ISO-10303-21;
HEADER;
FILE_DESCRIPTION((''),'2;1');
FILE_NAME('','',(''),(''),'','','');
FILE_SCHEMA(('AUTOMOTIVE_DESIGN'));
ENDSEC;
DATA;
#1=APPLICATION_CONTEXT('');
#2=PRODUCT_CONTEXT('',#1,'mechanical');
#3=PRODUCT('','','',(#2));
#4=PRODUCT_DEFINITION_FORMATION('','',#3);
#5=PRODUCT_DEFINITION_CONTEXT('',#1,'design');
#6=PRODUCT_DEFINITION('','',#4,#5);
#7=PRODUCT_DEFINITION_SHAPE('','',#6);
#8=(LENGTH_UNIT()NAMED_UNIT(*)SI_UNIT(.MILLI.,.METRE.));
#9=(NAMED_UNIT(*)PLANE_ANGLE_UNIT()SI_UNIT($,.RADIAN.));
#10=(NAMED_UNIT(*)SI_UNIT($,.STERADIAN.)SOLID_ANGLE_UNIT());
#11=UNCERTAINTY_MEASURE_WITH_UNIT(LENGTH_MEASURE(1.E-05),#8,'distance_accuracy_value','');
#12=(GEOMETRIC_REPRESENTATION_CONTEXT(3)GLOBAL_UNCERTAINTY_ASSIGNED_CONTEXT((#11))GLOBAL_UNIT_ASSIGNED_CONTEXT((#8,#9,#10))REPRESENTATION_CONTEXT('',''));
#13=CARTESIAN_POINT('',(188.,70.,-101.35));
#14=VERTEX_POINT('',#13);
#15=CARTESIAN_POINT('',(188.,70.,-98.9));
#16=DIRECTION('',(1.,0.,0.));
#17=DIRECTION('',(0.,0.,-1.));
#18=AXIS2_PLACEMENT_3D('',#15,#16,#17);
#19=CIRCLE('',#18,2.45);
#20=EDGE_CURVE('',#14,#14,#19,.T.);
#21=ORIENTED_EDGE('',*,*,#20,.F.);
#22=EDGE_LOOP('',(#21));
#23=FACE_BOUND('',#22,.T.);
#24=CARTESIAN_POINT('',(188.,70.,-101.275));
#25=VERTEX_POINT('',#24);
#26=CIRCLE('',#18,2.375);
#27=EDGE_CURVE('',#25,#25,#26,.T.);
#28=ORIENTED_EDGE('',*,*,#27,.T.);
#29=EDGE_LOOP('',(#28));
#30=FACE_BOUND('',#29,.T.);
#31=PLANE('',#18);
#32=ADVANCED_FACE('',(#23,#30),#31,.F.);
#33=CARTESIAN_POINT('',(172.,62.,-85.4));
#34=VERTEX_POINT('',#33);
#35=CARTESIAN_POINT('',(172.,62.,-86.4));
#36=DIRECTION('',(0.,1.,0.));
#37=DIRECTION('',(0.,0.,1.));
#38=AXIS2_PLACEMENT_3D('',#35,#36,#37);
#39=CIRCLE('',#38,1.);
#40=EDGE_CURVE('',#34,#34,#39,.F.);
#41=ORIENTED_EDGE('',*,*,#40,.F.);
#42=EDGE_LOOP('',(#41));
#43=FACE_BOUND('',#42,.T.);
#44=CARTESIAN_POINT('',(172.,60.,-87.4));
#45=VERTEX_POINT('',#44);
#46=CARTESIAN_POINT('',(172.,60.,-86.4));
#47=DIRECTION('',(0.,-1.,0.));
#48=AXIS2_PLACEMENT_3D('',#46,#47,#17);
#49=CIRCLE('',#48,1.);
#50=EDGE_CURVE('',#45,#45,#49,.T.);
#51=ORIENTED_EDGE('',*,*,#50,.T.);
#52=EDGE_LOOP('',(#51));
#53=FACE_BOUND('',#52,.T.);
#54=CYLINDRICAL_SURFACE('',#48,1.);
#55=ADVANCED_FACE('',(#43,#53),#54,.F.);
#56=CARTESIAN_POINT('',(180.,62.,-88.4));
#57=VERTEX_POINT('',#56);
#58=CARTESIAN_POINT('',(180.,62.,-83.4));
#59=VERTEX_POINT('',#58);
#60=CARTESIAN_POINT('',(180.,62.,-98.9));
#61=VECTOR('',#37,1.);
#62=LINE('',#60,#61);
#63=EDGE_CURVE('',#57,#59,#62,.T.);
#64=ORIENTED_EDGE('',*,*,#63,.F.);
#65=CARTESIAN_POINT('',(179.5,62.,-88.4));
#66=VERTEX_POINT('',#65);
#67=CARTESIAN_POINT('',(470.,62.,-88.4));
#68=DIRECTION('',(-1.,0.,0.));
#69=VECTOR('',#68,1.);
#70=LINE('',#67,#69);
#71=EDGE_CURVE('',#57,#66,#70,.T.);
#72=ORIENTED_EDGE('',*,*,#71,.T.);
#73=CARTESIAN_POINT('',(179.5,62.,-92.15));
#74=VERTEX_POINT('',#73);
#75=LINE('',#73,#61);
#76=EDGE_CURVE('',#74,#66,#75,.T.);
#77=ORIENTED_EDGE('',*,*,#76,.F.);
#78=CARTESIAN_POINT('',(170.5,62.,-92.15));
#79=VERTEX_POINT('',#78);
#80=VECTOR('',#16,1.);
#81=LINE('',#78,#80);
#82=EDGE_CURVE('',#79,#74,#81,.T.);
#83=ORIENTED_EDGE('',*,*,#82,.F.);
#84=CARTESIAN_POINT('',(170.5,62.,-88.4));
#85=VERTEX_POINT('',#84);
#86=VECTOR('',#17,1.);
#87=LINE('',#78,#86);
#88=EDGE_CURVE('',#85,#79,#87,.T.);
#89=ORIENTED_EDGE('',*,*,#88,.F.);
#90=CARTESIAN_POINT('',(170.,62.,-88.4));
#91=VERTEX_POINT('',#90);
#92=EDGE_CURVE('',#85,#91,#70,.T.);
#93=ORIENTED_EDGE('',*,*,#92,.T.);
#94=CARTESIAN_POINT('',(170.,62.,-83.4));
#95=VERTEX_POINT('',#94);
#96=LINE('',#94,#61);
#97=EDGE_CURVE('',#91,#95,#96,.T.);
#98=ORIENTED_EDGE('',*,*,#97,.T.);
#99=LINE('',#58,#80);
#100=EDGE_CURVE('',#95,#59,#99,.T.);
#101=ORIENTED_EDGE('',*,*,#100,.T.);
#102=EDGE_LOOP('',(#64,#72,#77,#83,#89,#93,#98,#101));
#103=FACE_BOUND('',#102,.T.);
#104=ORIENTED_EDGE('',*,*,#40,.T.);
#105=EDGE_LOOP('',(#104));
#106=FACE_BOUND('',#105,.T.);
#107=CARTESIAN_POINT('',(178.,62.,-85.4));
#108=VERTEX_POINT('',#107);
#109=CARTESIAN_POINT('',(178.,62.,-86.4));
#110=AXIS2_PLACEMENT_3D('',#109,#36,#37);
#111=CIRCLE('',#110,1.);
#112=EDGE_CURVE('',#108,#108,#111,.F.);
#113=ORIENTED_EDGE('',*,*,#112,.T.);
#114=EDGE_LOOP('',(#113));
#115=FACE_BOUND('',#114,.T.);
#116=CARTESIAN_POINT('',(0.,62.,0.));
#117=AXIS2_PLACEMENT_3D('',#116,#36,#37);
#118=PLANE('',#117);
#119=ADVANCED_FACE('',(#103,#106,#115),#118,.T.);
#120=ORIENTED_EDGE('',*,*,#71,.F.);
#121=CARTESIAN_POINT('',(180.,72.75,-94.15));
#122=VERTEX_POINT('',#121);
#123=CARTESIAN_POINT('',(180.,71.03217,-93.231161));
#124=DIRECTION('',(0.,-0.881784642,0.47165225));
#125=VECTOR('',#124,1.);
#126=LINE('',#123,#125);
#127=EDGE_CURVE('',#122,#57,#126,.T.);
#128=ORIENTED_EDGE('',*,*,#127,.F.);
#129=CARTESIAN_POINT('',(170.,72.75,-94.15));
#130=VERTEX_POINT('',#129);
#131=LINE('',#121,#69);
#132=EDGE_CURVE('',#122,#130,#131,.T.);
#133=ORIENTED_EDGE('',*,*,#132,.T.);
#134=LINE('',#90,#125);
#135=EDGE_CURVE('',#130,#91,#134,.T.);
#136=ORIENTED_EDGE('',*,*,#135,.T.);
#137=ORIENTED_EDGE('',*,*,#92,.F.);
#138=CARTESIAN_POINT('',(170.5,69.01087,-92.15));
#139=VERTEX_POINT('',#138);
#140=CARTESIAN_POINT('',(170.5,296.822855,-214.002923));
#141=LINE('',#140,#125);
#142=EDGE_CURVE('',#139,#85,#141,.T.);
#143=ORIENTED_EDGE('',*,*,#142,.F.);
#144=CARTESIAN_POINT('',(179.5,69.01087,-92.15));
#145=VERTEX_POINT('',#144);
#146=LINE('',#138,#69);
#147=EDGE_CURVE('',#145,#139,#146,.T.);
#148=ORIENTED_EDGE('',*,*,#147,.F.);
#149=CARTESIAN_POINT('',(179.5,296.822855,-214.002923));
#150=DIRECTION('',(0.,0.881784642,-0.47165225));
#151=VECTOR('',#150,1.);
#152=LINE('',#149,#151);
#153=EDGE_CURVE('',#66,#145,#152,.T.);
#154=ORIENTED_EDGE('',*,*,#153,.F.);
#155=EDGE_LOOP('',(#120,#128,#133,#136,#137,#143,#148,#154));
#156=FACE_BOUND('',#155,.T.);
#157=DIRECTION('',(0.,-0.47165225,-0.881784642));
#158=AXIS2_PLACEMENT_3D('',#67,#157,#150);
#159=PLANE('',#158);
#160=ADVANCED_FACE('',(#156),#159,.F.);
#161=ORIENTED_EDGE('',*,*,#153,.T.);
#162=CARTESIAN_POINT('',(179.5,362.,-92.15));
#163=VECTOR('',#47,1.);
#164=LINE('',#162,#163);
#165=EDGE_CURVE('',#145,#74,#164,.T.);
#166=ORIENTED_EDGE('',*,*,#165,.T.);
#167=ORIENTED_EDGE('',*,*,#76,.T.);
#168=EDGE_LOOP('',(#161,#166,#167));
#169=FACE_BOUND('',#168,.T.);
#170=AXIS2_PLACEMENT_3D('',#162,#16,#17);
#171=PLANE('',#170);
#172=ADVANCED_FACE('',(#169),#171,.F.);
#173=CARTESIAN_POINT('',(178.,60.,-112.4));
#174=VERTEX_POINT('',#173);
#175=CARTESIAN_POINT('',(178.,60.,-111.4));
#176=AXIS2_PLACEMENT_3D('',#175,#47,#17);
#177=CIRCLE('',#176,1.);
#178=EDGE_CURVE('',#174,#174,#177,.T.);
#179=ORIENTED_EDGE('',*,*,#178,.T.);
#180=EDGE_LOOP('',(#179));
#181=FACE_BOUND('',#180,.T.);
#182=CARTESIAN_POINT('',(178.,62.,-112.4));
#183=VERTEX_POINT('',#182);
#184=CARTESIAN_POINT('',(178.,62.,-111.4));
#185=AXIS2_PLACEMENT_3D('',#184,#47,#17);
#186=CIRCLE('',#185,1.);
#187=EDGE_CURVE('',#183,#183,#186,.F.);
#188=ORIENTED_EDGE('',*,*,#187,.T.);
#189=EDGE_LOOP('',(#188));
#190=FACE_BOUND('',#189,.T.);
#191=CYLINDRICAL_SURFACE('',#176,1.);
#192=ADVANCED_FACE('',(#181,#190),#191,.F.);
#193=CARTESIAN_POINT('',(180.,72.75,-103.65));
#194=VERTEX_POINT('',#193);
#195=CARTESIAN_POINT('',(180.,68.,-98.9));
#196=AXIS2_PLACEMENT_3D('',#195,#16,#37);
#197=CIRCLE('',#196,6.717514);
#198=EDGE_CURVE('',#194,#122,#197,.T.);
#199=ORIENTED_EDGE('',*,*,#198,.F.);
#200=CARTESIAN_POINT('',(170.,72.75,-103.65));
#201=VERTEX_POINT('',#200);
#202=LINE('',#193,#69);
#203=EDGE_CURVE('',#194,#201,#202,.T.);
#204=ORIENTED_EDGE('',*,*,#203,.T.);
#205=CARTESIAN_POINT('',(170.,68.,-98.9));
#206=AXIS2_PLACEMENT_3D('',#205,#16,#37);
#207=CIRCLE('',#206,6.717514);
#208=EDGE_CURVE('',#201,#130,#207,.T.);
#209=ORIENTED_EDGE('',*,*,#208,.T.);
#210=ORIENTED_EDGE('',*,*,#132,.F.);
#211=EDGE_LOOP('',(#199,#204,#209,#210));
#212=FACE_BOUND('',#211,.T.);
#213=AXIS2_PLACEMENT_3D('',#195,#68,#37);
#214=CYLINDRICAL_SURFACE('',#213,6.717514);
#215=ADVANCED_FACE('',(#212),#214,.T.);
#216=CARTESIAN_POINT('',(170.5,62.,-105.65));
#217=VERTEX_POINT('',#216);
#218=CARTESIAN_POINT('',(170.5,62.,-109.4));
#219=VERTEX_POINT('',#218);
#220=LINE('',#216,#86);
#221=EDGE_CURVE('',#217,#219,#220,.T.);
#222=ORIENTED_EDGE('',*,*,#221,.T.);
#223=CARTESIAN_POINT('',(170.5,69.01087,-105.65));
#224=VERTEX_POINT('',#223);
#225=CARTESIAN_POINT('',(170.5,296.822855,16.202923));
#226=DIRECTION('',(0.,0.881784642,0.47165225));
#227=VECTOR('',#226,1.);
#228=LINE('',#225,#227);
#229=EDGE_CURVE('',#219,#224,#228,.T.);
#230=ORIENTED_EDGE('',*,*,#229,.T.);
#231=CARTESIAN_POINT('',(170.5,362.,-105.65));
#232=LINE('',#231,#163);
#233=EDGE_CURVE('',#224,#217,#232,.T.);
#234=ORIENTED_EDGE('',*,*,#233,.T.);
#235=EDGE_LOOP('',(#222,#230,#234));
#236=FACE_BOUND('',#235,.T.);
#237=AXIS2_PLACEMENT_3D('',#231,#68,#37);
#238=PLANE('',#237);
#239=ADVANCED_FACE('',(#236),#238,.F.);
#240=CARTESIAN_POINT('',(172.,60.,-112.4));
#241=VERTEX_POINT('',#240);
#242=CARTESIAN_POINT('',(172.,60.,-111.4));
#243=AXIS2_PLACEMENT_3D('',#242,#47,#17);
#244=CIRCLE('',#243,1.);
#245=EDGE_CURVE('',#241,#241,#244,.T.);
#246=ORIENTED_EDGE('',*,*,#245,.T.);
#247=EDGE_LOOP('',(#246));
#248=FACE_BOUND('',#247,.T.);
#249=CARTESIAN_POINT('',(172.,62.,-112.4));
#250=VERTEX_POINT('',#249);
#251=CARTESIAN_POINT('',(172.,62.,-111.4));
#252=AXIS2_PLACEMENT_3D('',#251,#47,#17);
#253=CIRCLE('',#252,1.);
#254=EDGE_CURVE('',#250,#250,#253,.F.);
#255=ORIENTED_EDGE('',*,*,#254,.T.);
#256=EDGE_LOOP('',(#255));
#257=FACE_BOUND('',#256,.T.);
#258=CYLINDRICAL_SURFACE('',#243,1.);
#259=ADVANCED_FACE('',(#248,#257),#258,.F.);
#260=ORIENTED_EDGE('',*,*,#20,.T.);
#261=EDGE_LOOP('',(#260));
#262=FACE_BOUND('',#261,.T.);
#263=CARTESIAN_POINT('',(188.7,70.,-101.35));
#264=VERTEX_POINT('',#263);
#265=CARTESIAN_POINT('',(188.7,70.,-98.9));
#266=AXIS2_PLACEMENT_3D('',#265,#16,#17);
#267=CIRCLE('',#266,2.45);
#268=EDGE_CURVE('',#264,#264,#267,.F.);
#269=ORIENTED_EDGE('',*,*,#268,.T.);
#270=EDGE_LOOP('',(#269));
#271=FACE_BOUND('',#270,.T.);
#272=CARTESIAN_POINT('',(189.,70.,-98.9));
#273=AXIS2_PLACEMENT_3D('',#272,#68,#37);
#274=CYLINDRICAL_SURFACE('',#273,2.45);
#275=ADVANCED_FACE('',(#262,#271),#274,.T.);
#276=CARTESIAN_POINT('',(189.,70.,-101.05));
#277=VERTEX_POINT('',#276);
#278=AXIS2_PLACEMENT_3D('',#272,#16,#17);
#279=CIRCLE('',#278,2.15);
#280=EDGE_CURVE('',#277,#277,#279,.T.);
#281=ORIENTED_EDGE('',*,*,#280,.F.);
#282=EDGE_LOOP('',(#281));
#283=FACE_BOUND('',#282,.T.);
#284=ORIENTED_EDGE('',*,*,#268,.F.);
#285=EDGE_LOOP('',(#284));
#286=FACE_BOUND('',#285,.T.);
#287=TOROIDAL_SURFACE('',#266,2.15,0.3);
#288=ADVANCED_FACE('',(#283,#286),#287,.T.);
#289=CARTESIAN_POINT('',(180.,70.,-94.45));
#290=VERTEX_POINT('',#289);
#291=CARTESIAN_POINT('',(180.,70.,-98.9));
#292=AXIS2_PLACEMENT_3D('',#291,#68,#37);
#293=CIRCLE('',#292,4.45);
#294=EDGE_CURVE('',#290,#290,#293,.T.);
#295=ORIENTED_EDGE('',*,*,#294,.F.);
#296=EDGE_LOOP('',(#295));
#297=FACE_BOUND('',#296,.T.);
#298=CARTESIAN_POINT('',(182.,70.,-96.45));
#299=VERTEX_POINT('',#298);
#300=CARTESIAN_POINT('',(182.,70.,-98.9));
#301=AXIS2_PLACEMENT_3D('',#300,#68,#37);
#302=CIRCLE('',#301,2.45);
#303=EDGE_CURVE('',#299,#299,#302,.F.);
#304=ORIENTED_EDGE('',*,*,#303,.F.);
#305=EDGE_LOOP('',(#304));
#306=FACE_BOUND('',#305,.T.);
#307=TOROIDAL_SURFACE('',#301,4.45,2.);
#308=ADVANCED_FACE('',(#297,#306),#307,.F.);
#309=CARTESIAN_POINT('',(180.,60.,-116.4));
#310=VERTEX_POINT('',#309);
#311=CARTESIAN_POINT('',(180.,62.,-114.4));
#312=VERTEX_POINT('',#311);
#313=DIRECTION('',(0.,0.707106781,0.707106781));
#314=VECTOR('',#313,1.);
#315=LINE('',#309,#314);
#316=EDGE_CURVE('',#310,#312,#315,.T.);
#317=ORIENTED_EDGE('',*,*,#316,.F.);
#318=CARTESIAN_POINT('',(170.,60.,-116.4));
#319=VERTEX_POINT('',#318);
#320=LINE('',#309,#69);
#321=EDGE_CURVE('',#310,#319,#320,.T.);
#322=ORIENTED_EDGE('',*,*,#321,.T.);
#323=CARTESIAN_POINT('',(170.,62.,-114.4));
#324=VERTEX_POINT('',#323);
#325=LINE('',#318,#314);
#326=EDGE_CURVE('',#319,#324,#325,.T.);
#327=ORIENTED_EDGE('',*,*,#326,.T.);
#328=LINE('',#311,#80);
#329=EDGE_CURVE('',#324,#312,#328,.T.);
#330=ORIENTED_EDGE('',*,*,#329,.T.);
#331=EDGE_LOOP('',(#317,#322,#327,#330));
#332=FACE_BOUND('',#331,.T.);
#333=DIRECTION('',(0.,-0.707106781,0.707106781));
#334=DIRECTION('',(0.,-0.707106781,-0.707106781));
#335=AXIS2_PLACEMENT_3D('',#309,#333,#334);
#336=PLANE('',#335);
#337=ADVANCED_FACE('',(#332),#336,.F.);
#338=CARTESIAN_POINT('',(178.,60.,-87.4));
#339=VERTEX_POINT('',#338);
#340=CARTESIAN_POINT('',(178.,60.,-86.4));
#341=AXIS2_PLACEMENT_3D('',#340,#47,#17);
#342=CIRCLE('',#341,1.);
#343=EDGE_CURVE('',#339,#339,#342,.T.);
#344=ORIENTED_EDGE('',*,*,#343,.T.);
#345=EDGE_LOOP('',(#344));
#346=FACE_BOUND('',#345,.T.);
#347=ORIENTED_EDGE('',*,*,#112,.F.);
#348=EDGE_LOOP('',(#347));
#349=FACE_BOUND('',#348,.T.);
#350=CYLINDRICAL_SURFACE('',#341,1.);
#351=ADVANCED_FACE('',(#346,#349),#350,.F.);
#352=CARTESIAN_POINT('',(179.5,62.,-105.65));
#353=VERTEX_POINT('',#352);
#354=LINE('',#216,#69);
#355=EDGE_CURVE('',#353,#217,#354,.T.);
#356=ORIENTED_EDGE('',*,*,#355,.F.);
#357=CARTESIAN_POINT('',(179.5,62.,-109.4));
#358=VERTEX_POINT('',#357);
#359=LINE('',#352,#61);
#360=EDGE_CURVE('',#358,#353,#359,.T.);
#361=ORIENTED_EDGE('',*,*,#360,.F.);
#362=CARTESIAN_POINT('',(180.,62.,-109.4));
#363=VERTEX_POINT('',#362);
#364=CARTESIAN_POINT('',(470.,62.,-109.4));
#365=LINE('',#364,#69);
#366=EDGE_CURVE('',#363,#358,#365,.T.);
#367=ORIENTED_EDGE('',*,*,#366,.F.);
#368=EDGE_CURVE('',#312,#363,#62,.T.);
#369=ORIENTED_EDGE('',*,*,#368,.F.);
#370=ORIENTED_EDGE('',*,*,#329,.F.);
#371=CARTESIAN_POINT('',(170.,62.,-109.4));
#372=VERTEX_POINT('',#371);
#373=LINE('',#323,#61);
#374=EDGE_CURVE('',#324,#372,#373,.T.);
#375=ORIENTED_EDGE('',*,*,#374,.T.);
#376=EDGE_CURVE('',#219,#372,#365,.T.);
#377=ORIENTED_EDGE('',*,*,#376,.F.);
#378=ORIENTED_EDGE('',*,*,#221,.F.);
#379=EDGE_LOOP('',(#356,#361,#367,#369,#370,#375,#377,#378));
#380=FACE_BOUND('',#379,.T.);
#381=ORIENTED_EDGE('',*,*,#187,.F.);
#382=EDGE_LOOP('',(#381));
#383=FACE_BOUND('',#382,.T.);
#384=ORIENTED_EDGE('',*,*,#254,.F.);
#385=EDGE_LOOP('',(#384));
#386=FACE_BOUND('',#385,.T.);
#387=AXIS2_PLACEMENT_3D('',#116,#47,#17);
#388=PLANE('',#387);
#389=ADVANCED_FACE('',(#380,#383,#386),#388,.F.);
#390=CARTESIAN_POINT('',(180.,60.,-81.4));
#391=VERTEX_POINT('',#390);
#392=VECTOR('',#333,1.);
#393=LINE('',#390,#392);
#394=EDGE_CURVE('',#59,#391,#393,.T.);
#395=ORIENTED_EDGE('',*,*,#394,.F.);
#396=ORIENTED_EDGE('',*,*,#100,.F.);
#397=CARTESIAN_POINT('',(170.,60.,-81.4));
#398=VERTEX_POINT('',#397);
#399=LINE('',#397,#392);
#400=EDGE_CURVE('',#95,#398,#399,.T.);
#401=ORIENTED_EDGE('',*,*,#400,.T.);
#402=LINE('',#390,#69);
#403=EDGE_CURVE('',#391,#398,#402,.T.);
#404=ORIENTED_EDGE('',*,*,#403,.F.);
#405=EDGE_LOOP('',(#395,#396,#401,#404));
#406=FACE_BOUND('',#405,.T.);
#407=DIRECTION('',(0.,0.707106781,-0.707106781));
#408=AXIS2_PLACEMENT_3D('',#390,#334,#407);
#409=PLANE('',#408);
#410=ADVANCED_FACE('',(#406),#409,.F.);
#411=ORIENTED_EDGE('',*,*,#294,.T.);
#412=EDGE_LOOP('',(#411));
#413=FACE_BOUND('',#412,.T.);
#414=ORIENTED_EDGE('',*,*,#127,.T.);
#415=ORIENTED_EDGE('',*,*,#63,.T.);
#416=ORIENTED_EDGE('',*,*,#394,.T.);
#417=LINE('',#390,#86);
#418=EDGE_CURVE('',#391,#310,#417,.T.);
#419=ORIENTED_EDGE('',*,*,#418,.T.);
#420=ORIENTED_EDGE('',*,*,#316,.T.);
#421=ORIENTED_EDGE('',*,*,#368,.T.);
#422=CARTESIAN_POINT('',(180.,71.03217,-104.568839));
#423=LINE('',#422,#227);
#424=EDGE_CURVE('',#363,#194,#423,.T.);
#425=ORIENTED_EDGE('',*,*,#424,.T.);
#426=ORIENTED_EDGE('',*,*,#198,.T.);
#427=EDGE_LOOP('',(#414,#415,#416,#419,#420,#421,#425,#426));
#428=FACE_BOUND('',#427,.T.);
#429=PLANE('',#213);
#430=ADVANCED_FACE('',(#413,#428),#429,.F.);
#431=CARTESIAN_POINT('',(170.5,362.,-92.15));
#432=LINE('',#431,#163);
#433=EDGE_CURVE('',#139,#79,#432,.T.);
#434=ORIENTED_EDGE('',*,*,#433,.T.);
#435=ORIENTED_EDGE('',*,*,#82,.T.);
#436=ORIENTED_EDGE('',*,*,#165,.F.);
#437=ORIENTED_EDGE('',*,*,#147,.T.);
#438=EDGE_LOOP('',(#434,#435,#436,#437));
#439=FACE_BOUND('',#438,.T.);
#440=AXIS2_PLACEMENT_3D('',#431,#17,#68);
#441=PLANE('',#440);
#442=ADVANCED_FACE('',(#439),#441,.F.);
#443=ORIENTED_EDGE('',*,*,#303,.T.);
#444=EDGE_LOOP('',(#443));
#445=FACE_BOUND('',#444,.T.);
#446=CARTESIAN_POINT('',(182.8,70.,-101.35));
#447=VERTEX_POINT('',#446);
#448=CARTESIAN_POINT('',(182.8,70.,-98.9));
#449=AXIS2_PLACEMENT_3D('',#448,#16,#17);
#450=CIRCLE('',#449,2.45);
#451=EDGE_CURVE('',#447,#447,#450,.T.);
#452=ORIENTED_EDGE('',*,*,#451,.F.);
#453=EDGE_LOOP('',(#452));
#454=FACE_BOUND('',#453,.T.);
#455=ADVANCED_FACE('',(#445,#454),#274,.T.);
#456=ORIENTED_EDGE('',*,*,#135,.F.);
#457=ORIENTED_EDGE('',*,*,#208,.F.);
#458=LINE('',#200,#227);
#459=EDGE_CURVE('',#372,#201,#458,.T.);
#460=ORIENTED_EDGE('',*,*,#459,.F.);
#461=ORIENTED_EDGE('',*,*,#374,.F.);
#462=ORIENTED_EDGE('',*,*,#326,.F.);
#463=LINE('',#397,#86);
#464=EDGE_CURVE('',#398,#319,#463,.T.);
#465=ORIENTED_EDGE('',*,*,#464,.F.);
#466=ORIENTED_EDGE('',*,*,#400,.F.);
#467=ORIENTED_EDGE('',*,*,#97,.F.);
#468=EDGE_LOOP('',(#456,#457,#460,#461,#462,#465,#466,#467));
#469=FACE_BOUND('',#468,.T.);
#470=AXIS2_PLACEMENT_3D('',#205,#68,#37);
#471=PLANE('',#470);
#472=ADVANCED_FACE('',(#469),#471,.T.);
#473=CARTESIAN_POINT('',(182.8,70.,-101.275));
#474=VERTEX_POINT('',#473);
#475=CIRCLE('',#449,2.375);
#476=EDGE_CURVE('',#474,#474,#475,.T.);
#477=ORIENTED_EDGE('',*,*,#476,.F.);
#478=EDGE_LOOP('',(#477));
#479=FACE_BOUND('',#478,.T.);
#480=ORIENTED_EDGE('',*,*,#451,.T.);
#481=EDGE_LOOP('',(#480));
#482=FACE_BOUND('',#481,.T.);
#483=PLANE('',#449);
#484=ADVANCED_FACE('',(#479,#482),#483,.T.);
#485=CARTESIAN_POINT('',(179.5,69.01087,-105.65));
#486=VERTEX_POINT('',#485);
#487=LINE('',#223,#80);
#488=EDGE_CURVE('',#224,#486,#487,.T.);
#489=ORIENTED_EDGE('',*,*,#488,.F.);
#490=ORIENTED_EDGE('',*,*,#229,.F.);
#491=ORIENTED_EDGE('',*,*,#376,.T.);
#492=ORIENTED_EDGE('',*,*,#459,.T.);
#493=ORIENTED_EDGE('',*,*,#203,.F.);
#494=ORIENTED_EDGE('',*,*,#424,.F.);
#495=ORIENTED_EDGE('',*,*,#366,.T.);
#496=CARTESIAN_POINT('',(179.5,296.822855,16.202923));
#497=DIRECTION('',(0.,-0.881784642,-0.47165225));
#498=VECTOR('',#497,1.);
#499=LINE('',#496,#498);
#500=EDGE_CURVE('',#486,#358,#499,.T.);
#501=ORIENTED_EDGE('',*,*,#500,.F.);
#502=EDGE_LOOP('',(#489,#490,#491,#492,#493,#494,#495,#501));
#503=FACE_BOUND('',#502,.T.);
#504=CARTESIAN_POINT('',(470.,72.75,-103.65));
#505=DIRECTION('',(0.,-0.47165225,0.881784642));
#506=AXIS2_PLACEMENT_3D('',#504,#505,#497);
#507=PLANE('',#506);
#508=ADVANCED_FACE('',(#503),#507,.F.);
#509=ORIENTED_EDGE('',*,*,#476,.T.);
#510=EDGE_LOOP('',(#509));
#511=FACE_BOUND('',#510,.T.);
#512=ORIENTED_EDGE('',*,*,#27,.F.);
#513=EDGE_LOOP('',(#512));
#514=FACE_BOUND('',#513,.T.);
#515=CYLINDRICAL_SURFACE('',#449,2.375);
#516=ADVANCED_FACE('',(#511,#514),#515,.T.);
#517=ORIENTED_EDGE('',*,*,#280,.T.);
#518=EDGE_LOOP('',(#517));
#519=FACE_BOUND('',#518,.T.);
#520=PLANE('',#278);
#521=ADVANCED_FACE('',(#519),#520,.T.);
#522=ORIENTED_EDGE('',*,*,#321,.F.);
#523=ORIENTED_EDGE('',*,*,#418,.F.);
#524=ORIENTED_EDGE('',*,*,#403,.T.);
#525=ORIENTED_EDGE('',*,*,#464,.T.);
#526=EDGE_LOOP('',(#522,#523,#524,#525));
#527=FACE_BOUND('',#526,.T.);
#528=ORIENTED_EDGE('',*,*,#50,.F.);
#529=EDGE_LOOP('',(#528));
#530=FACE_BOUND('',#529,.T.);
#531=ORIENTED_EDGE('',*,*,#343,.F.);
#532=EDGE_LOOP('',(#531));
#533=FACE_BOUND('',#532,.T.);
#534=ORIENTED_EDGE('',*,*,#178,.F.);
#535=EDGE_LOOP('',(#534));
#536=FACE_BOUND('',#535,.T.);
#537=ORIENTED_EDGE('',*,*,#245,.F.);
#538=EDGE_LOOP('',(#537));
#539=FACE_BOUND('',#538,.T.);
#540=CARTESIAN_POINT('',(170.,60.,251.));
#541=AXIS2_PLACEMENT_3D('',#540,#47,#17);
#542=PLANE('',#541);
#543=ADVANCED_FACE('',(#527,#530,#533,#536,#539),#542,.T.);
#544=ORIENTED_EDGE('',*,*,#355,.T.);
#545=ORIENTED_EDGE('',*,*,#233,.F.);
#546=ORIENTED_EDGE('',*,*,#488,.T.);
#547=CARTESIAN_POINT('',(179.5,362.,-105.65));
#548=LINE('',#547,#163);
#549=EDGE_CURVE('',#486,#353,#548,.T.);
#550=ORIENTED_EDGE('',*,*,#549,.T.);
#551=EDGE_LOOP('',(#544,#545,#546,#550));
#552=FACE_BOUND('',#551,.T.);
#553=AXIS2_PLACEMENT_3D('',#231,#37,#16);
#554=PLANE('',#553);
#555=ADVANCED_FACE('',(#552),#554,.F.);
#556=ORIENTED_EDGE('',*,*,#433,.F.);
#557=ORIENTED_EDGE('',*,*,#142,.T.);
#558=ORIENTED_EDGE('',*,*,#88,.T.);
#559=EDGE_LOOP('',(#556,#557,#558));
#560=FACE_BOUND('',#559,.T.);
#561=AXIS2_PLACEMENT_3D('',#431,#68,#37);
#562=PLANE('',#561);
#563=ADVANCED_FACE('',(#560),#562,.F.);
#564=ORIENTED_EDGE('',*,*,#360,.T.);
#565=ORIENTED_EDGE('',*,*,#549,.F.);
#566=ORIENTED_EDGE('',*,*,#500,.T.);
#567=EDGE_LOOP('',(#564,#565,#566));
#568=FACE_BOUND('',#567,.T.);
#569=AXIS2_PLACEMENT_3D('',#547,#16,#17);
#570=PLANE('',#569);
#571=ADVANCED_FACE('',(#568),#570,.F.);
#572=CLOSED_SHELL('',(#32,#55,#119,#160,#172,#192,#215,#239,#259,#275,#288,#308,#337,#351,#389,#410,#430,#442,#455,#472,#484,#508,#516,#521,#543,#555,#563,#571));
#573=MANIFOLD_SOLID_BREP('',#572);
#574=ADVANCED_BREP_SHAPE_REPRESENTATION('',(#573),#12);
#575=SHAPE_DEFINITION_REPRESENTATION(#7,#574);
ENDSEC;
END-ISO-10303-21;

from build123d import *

# Parameters (mm, degrees)
SKETCH2_W                 = 200
SKETCH2_H                 = 200
BOSS_EXTRUDE2_DEPTH       = 60
BOSS_EXTRUDE3_START       = -38
BOSS_EXTRUDE3_DEPTH       = 41
SKETCH5_W                 = 180
SKETCH5_H                 = 180
CUT_EXTRUDE2_DEPTH        = 50
BOSS_EXTRUDE4_START       = -81.2
BOSS_EXTRUDE4_DEPTH       = 30
CUT_EXTRUDE3_DEPTH        = 35
CUT_EXTRUDE4_DEPTH        = 10
CUT_EXTRUDE6_START        = -26
CUT_EXTRUDE6_DEPTH        = 26
SKETCH11_W                = 120
SKETCH11_H                = 10
CUT_EXTRUDE7_DEPTH        = 26
SKETCH12_W                = 180
SKETCH12_H                = 50
CUT_EXTRUDE8_DEPTH        = 200
SKETCH13_W                = 180
SKETCH13_H                = 50
CUT_EXTRUDE9_DEPTH        = 200
SKETCH15_W                = 19.8
SKETCH15_H                = 40.6
CUT_EXTRUDE11_DEPTH       = 10
BOSS_EXTRUDE5_DEPTH       = 26
SKETCH20_W                = 19.8
SKETCH20_H                = 7
CUT_EXTRUDE14_DEPTH       = 8.2
SKETCH22_W                = 22
SKETCH22_H                = 68.38628635
SKETCH22_W_2              = 33
SKETCH22_H_2              = 70.357034464
CUT_EXTRUDE16_DEPTH       = 6
CUT_EXTRUDE17_DEPTH       = 150
SKETCH24_W                = 190
SKETCH24_H                = 55
CUT_EXTRUDE18_DEPTH       = 200
SKETCH41_W                = 200
SKETCH41_H                = 200
SKETCH41_W_2              = 115.381197846
SKETCH41_H_2              = 110.8
CUT_EXTRUDE25_DEPTH       = 100
CUT_EXTRUDE26_DEPTH       = 26
SKETCH43_R                = 85
BOSS_EXTRUDE9_DEPTH       = 5
CUT_EXTRUDE27_DEPTH       = 11
BOSS_EXTRUDE10_DEPTH      = 4
BOSS_EXTRUDE11_DEPTH      = 24
BOSS_EXTRUDE12_DEPTH      = 26
BOSS_EXTRUDE14_DEPTH      = 4
CUT_EXTRUDE29_DEPTH       = 18
CUT_EXTRUDE30_DEPTH       = 2
CUT_EXTRUDE31_DEPTH       = 2
SKETCH55_W                = 19.8
SKETCH55_H                = 2.410200662
BOSS_EXTRUDE16_DEPTH      = 4
SKETCH56_W                = 22
SKETCH56_H                = 70.356823689
CUT_EXTRUDE32_DEPTH       = 4
BOSS_EXTRUDE17_DEPTH      = 26
BOSS_EXTRUDE18_DEPTH      = 26
BOSS_EXTRUDE19_START      = 170
BOSS_EXTRUDE19_DEPTH      = 10
SKETCH60_R                = 2.45
BOSS_EXTRUDE20_DEPTH      = 9
FILLET1_R                 = 0.3
CUT_EXTRUDE33_START       = -1
SKETCH61_R                = 2.45
SKETCH61_R_2              = 2.375
CUT_EXTRUDE33_DEPTH       = 5.2
FILLET2_R                 = 2
BOSS_EXTRUDE21_START      = 140
BOSS_EXTRUDE21_DEPTH      = 10
SKETCH63_R                = 2.45
BOSS_EXTRUDE22_DEPTH      = 9
FILLET3_R                 = 0.3
FILLET4_R                 = 2
CUT_EXTRUDE34_START       = -1
SKETCH64_R                = 2.45
SKETCH64_R_2              = 2.375
CUT_EXTRUDE34_DEPTH       = 5.2
SKETCH67_R                = 95.168377016
SKETCH67_R_2              = 84.75
CUT_EXTRUDE36_DEPTH       = 5
CUT_EXTRUDE37_DEPTH       = 300
CUT_EXTRUDE37_DEPTH_BACK  = 300
F_2_0MM_DOWEL_HOLE1_D     = 2
F_2_0MM_DOWEL_HOLE1_DEPTH = 10
F_2_0MM_DOWEL_HOLE1_TIP   = 0.600860619
CUT_EXTRUDE39_START       = -2
SKETCH74_W                = 9
SKETCH74_H                = 11.89890002
SKETCH74_H_2              = 12.887833041
CUT_EXTRUDE39_DEPTH       = 300
SKETCH75_W                = 5
SKETCH75_H                = 5
CUT_EXTRUDE40_DEPTH       = 300
CUT_EXTRUDE41_DEPTH       = 300


with BuildPart() as part:
    # Sketch2 → Boss-Extrude2 (new body)
    with BuildSketch(Plane(origin=(0, 0, 0), x_dir=(1, 0, 0), z_dir=(0, 1, 0))):
        with Locations((100, 100)):
            Rectangle(SKETCH2_W, SKETCH2_H)
    extrude(amount=BOSS_EXTRUDE2_DEPTH)

    # Sketch3 → Boss-Extrude3 (add)
    with BuildSketch(Plane.XY.offset(BOSS_EXTRUDE3_START)):
        with BuildLine():
            Line((40, 60), (80.980762114, 130.980762114))
            ThreePointArc((80.980762114, 130.980762114), (100, 141.961524227), (119.019237886, 130.980762114))
            Line((119.019237886, 130.980762114), (160, 60))
            Line((160, 60), (40, 60))
        make_face()
    extrude(amount=-BOSS_EXTRUDE3_DEPTH)

    # Sketch5 → Cut-Extrude2 (cut)
    with BuildSketch(Plane.XZ):
        with Locations((100, -100)):
            Rectangle(SKETCH5_W, SKETCH5_H)
    extrude(amount=-CUT_EXTRUDE2_DEPTH, mode=Mode.SUBTRACT)

    # Sketch7 → Boss-Extrude4 (add)
    with BuildSketch(Plane(origin=(0, 0, -200), x_dir=(-1, 0, 0), z_dir=(0, 0, -1)).offset(BOSS_EXTRUDE4_START)):
        with BuildLine():
            Line((-160, 60), (-40, 60))
            Line((-40, 60), (-80.980762114, 130.980762114))
            ThreePointArc((-80.980762114, 130.980762114), (-100, 141.961524227), (-119.019237886, 130.980762114))
            Line((-119.019237886, 130.980762114), (-160, 60))
        make_face()
    extrude(amount=BOSS_EXTRUDE4_DEPTH)

    # Sketch8 → Cut-Extrude3 (cut)
    with BuildSketch(Plane.XY.offset(-38)):
        with BuildLine():
            Line((48.660254038, 65), (151.339745962, 65))
            Line((151.339745962, 65), (114.689110868, 128.480762114))
            ThreePointArc((114.689110868, 128.480762114), (100, 136.961524227), (85.310889132, 128.480762114))
            Line((85.310889132, 128.480762114), (48.660254038, 65))
        make_face()
    extrude(amount=-CUT_EXTRUDE3_DEPTH, mode=Mode.SUBTRACT)

    # Sketch9 → Cut-Extrude4 (cut)
    with BuildSketch(Plane.XY.offset(-118.8)):
        with BuildLine():
            Line((95, 141.384773704), (95, 105))
            ThreePointArc((95, 105), (100, 100), (105, 105))
            Line((105, 105), (105, 141.384773704))
            ThreePointArc((105, 141.384773704), (100, 141.961524227), (95, 141.384773704))
        make_face()
    extrude(amount=-CUT_EXTRUDE4_DEPTH, mode=Mode.SUBTRACT)

    # Sketch10 → Cut-Extrude6 (cut)
    with BuildSketch(Plane(origin=(0, 0, -148.8), x_dir=(-1, 0, 0), z_dir=(0, 0, -1)).offset(CUT_EXTRUDE6_START)):
        with BuildLine():
            Line((-114.689110868, 128.480762114), (-151.339745962, 65))
            Line((-151.339745962, 65), (-48.660254038, 65))
            Line((-48.660254038, 65), (-85.310889132, 128.480762114))
            ThreePointArc((-85.310889132, 128.480762114), (-87.382612213, 131.335555987), (-90, 133.700120587))
            Line((-90, 133.700120587), (-90, 105))
            ThreePointArc((-90, 105), (-100, 95), (-110, 105))
            Line((-110, 105), (-110, 133.700120587))
            ThreePointArc((-110, 133.700120587), (-112.617387787, 131.335555987), (-114.689110868, 128.480762114))
        make_face()
    extrude(amount=CUT_EXTRUDE6_DEPTH, mode=Mode.SUBTRACT)

    # Sketch11 → Cut-Extrude7 (cut)
    with BuildSketch(Plane(origin=(0, 60, 0), x_dir=(1, 0, 0), z_dir=(0, 1, 0))):
        with Locations((100, 113.8)):
            Rectangle(SKETCH11_W, SKETCH11_H)
    extrude(amount=-CUT_EXTRUDE7_DEPTH, mode=Mode.SUBTRACT)

    # Sketch12 → Cut-Extrude8 (cut)
    with BuildSketch(Plane(origin=(200, 0, 0), x_dir=(0, 0, -1), z_dir=(1, 0, 0))):
        with Locations((100, 25)):
            Rectangle(SKETCH12_W, SKETCH12_H)
    extrude(amount=-CUT_EXTRUDE8_DEPTH, mode=Mode.SUBTRACT)

    # Sketch13 → Cut-Extrude9 (cut)
    with BuildSketch(Plane.XY):
        with Locations((100, 25)):
            Rectangle(SKETCH13_W, SKETCH13_H)
    extrude(amount=-CUT_EXTRUDE9_DEPTH, mode=Mode.SUBTRACT)

    # Sketch15 → Cut-Extrude11 (cut)
    with BuildSketch(Plane.XY.offset(-73)):
        with Locations((100, 94.7)):
            Rectangle(SKETCH15_W, SKETCH15_H)
    extrude(amount=-CUT_EXTRUDE11_DEPTH, mode=Mode.SUBTRACT)

    # Sketch16 → Boss-Extrude5 (add)
    with BuildSketch(Plane.XY.offset(-73)):
        Polygon((88.1, 115), (88.1, 72.4), (111.9, 72.4), (111.9, 115), (109.9, 115), (109.9, 74.4), (90.1, 74.4), (90.1, 115), align=None)
    extrude(amount=BOSS_EXTRUDE5_DEPTH)

    # Sketch20 → Cut-Extrude14 (cut)
    with BuildSketch(Plane(origin=(0, 0, -79), x_dir=(-1, 0, 0), z_dir=(0, 0, -1))):
        with Locations((-100, 118.5)):
            Rectangle(SKETCH20_W, SKETCH20_H)
        with Locations((-100, 70.9)):
            Rectangle(SKETCH20_W, SKETCH20_H)
    extrude(amount=-CUT_EXTRUDE14_DEPTH, mode=Mode.SUBTRACT)

    # Sketch22 → Cut-Extrude16 (cut)
    with BuildSketch(Plane(origin=(4.019237886, -2.320508076, 0), x_dir=(0, 0, 1), z_dir=(-0.8660254037844397, 0.49999999999999806, 0))):
        with Locations((-133.8, 115.729905279)):
            Rectangle(SKETCH22_W, SKETCH22_H)
        with Locations((-58.5, 116.744531222)):
            Rectangle(SKETCH22_W_2, SKETCH22_H_2)
    extrude(amount=-CUT_EXTRUDE16_DEPTH, mode=Mode.SUBTRACT)

    # Sketch23 → Cut-Extrude17 (cut)
    with BuildSketch(Plane.XY.offset(-38)):
        with BuildLine():
            Line((43.464101615, 62), (42.309401077, 60))
            Line((42.309401077, 60), (36.951802896, 60))
            Line((36.951802896, 60), (100, 183.688158135))
            Line((100, 183.688158135), (162.604774917, 60))
            Line((162.604774917, 60), (157.690598923, 60))
            Line((157.690598923, 60), (156.535898385, 62))
            Line((156.535898385, 62), (117.287187079, 129.980762114))
            ThreePointArc((117.287187079, 129.980762114), (100, 139.961524227), (82.712812921, 129.980762114))
            Line((82.712812921, 129.980762114), (43.464101615, 62))
        make_face()
    extrude(amount=-CUT_EXTRUDE17_DEPTH, mode=Mode.SUBTRACT)

    # Sketch24 → Cut-Extrude18 (cut)
    with BuildSketch(Plane(origin=(0, 0, -200), x_dir=(-1, 0, 0), z_dir=(0, 0, -1))):
        with Locations((-100, 27.5)):
            Rectangle(SKETCH24_W, SKETCH24_H)
    extrude(amount=-CUT_EXTRUDE18_DEPTH, mode=Mode.SUBTRACT)

    # Sketch41 → Cut-Extrude25 (cut)
    with BuildSketch(Plane(origin=(0, 60, 0), x_dir=(1, 0, 0), z_dir=(0, 1, 0))):
        with Locations((100, 100)):
            Rectangle(SKETCH41_W, SKETCH41_H)
        with Locations((100, 93.4)):
            Rectangle(SKETCH41_W_2, SKETCH41_H_2, mode=Mode.SUBTRACT)
    extrude(amount=-CUT_EXTRUDE25_DEPTH, mode=Mode.SUBTRACT)


with BuildPart() as cut_extrude25_piece_1:
    # of the separate pieces the step leaves, piece 1, a body of its own (cut_extrude25_pieces)
    add(part.part.solids().sort_by_distance((42.309401077, 55, -108.8))[0])



with BuildPart() as cut_extrude25_piece_2:
    # of the separate pieces the step leaves, piece 2, a body of its own (cut_extrude25_pieces)
    add(part.part.solids().sort_by_distance((42.309401077, 55, -118.8))[0])

    # Sketch38 → Cut-Extrude26 (cut)
    with BuildSketch(Plane(origin=(0, 0, -148.8), x_dir=(-1, 0, 0), z_dir=(0, 0, -1))):
        with BuildLine():
            Line((-110, 133.700120587), (-107, 135.763853262))
            Line((-107, 135.763853262), (-107, 105))
            ThreePointArc((-107, 105), (-100, 98), (-93, 105))
            Line((-93, 105), (-93, 135.763853262))
            Line((-93, 135.763853262), (-90, 133.700120587))
            Line((-90, 133.700120587), (-90, 105))
            ThreePointArc((-90, 105), (-100, 95), (-110, 105))
            Line((-110, 105), (-110, 133.700120587))
        make_face()
    extrude(amount=-CUT_EXTRUDE26_DEPTH, mode=Mode.SUBTRACT)


with BuildPart() as cut_extrude25_piece_1_1:
    add(cut_extrude25_piece_1.part)

    add(cut_extrude25_piece_2.part)  # Boss-Extrude9 merges Cut-Extrude25 piece 2
    # Sketch43 → Boss-Extrude9 (add)
    with BuildSketch(Plane.XZ.offset(-55)):
        with Locations((100, -98.8)):
            Circle(SKETCH43_R)
    extrude(amount=-BOSS_EXTRUDE9_DEPTH)

    # Sketch45 → Cut-Extrude27 (cut)
    with BuildSketch(Plane.XY.offset(-38)):
        with BuildLine():
            Line((42.309401077, 60), (82.712812921, 129.980762114))
            ThreePointArc((82.712812921, 129.980762114), (100, 139.961524227), (117.287187079, 129.980762114))
            Line((117.287187079, 129.980762114), (157.690598923, 60))
            Line((157.690598923, 60), (42.309401077, 60))
        make_face()
        with BuildLine():
            Line((151.339745962, 65), (114.689110868, 128.480762114))
            ThreePointArc((114.689110868, 128.480762114), (100, 136.961524227), (85.310889132, 128.480762114))
            Line((85.310889132, 128.480762114), (48.660254038, 65))
            Line((48.660254038, 65), (151.339745962, 65))
        make_face(mode=Mode.SUBTRACT)
    extrude(amount=-CUT_EXTRUDE27_DEPTH, mode=Mode.SUBTRACT)

    # Sketch46 → Boss-Extrude10 (add)
    with BuildSketch(Plane.XY.offset(-49)):
        Polygon((81.712812921, 128.248711306), (46.534295689, 67.317732125), (49.094273419, 65.839728294), (84.272790651, 126.770707475), align=None)
    extrude(amount=-BOSS_EXTRUDE10_DEPTH)

    # Sketch47 → Boss-Extrude11 (add)
    with BuildSketch(Plane.XY.offset(-73)):
        Polygon((49.1323719, 65.817732125), (50.548725488, 65), (48.660254038, 65), align=None)
    extrude(amount=BOSS_EXTRUDE11_DEPTH)

    # Sketch48 → Boss-Extrude12 (add)
    with BuildSketch(Plane(origin=(0, 0, -122.8), x_dir=(-1, 0, 0), z_dir=(0, 0, -1))):
        Polygon((-49.117745958, 65.792399249), (-50.490221717, 65), (-48.660254038, 65), align=None)
    extrude(amount=BOSS_EXTRUDE12_DEPTH)

    # Sketch49 → Boss-Extrude14 (add)
    with BuildSketch(Plane.XY.offset(-75)):
        Polygon((49.998397304, 65.317732125), (49.094273419, 65.839728294), (84.272790651, 126.770707475), (85.176914536, 126.248711306), align=None)
    extrude(amount=BOSS_EXTRUDE14_DEPTH)

    # Sketch52 → Cut-Extrude29 (cut)
    with BuildSketch(Plane(origin=(0, 0, -148.8), x_dir=(-1, 0, 0), z_dir=(0, 0, -1))):
        with BuildLine():
            Line((-93, 135.763853262), (-93, 105))
            ThreePointArc((-93, 105), (-100, 98), (-107, 105))
            Line((-107, 105), (-107, 135.763853262))
            ThreePointArc((-107, 135.763853262), (-100, 137.248161341), (-93, 135.763853262))
        make_face()
    extrude(amount=-CUT_EXTRUDE29_DEPTH, mode=Mode.SUBTRACT)

    # Sketch53 → Cut-Extrude30 (cut)
    with BuildSketch(Plane.XY.offset(-71)):
        Polygon((85.176914536, 126.248711306), (84.272790651, 126.770707475), (49.090707581, 65.833552081), (49.994831466, 65.311555913), align=None)
    extrude(amount=-CUT_EXTRUDE30_DEPTH, mode=Mode.SUBTRACT)

    # Sketch54 → Cut-Extrude31 (cut)
    with BuildSketch(Plane.XY.offset(-73)):
        with BuildLine():
            Line((50.548725488, 65), (151.339745962, 65))
            Line((151.339745962, 65), (114.689110868, 128.480762114))
            ThreePointArc((114.689110868, 128.480762114), (100, 136.961524227), (85.310889132, 128.480762114))
            Line((85.310889132, 128.480762114), (84.310889132, 126.748711306))
            Line((84.310889132, 126.748711306), (84.272790651, 126.770707475))
            Line((84.272790651, 126.770707475), (49.094273419, 65.839728294))
            Line((49.094273419, 65.839728294), (49.090707581, 65.833552081))
            Line((49.090707581, 65.833552081), (49.994831466, 65.311555913))
            Line((49.994831466, 65.311555913), (49.998397304, 65.317732125))
            Line((49.998397304, 65.317732125), (50.548725488, 65))
        make_face()
        Polygon((109.9, 67.4), (90.1, 67.4), (90.1, 72.4), (88.1, 72.4), (88.1, 115), (90.1, 115), (90.1, 122), (109.9, 122), (109.9, 115), (111.9, 115), (111.9, 72.4), (109.9, 72.4), align=None, mode=Mode.SUBTRACT)
    extrude(amount=-CUT_EXTRUDE31_DEPTH, mode=Mode.SUBTRACT)

    # Sketch55 → Boss-Extrude16 (add)
    with BuildSketch(Plane.XY.offset(-75)):
        with Locations((100, 66.194899669)):
            Rectangle(SKETCH55_W, SKETCH55_H)
    extrude(amount=BOSS_EXTRUDE16_DEPTH)

    # Sketch56 → Cut-Extrude32 (cut)
    with BuildSketch(Plane(origin=(144.248711306, 83.282032303, 0), x_dir=(0, 0, -1), z_dir=(0.8660254037844362, 0.5000000000000044, 0))):
        with Locations((64, 16.744636609)):
            Rectangle(SKETCH56_W, SKETCH56_H)
        with Locations((133.8, 16.744636609)):
            Rectangle(SKETCH56_W, SKETCH56_H)
    extrude(amount=-CUT_EXTRUDE32_DEPTH, mode=Mode.SUBTRACT)

    # Sketch57 → Boss-Extrude17 (add)
    with BuildSketch(Plane.XY.offset(-75)):
        Polygon((150.867522712, 65.817914662), (149.450852961, 65), (151.339745962, 65), align=None)
    extrude(amount=BOSS_EXTRUDE17_DEPTH)

    # Sketch58 → Boss-Extrude18 (add)
    with BuildSketch(Plane(origin=(0, 0, -122.8), x_dir=(-1, 0, 0), z_dir=(0, 0, -1))):
        Polygon((-150.867522712, 65.817914662), (-151.339745962, 65), (-149.450852961, 65), align=None)
    extrude(amount=BOSS_EXTRUDE18_DEPTH)

    # Sketch59 → Boss-Extrude19 (add)
    with BuildSketch(Plane(origin=(0, 0, 0), x_dir=(0, 0, -1), z_dir=(1, 0, 0)).offset(BOSS_EXTRUDE19_START)):
        with BuildLine():
            Line((81.4, 60), (94.15, 72.75))
            ThreePointArc((94.15, 72.75), (98.9, 74.717514421), (103.65, 72.75))
            Line((103.65, 72.75), (116.4, 60))
            Line((116.4, 60), (81.4, 60))
        make_face()
        with BuildLine():
            Line((81.4, 55), (116.4, 55))
            Line((116.4, 55), (103.65, 42.25))
            ThreePointArc((103.65, 42.25), (98.9, 40.282485579), (94.15, 42.25))
            Line((94.15, 42.25), (81.4, 55))
        make_face()
    extrude(amount=BOSS_EXTRUDE19_DEPTH)

    # Sketch60 → Boss-Extrude20 (add)
    with BuildSketch(Plane(origin=(180, 0, 0), x_dir=(0, 0, -1), z_dir=(1, 0, 0))):
        with Locations((98.9, 70)):
            Circle(SKETCH60_R)
        with Locations((98.9, 45)):
            Circle(SKETCH60_R)
    extrude(amount=BOSS_EXTRUDE20_DEPTH)

    # Fillet1
    fillet1_edges = [cut_extrude25_piece_1_1.edges().sort_by_distance(p)[0] for p in [
        (189, 70, -96.45),
        (189, 45, -96.45),
    ]]
    fillet(fillet1_edges, radius=FILLET1_R)

    # Sketch61 → Cut-Extrude33 (cut)
    # profile 1 of 2: a face of its own
    with BuildSketch(Plane(origin=(189, 0, 0), x_dir=(0, 0, -1), z_dir=(1, 0, 0)).offset(CUT_EXTRUDE33_START)):
        with Locations((98.9, 70)):
            Circle(SKETCH61_R)
        with Locations((98.9, 70)):
            Circle(SKETCH61_R_2, mode=Mode.SUBTRACT)
    # profile 2 of 2: a face of its own
    with BuildSketch(Plane(origin=(189, 0, 0), x_dir=(0, 0, -1), z_dir=(1, 0, 0)).offset(CUT_EXTRUDE33_START)):
        with Locations((98.9, 45)):
            Circle(SKETCH61_R)
        with Locations((98.9, 45)):
            Circle(SKETCH61_R_2, mode=Mode.SUBTRACT)
    extrude(amount=-CUT_EXTRUDE33_DEPTH, mode=Mode.SUBTRACT)

    # Fillet2
    fillet2_edges = [cut_extrude25_piece_1_1.edges().sort_by_distance(p)[0] for p in [
        (180, 70, -96.45),
        (180, 45, -96.45),
    ]]
    fillet(fillet2_edges, radius=FILLET2_R)

    # Sketch62 → Boss-Extrude21 (add)
    with BuildSketch(Plane.ZY.offset(-170).offset(BOSS_EXTRUDE21_START)):
        with BuildLine():
            Line((-81.4, 55), (-94.15, 42.25))
            ThreePointArc((-94.15, 42.25), (-98.9, 40.282485579), (-103.65, 42.25))
            Line((-103.65, 42.25), (-116.4, 55))
            Line((-116.4, 55), (-81.4, 55))
        make_face()
    extrude(amount=BOSS_EXTRUDE21_DEPTH)

    # Sketch63 → Boss-Extrude22 (add)
    with BuildSketch(Plane.ZY.offset(-20)):
        with Locations((-98.9, 45)):
            Circle(SKETCH63_R)
    extrude(amount=BOSS_EXTRUDE22_DEPTH)

    # Fillet3
    fillet3_edges = [cut_extrude25_piece_1_1.edges().sort_by_distance(p)[0] for p in [
        (11, 45, -101.35),
    ]]
    fillet(fillet3_edges, radius=FILLET3_R)

    # Fillet4
    fillet4_edges = [cut_extrude25_piece_1_1.edges().sort_by_distance(p)[0] for p in [
        (20, 45, -101.35),
    ]]
    fillet(fillet4_edges, radius=FILLET4_R)

    # Sketch64 → Cut-Extrude34 (cut)
    with BuildSketch(Plane.ZY.offset(-11).offset(CUT_EXTRUDE34_START)):
        with Locations((-98.9, 45)):
            Circle(SKETCH64_R)
        with Locations((-98.9, 45)):
            Circle(SKETCH64_R_2, mode=Mode.SUBTRACT)
    extrude(amount=-CUT_EXTRUDE34_DEPTH, mode=Mode.SUBTRACT)

    # Sketch67 → Cut-Extrude36 (cut)
    with BuildSketch(Plane(origin=(0, 60, 0), x_dir=(1, 0, 0), z_dir=(0, 1, 0))):
        with Locations((100, 98.8)):
            Circle(SKETCH67_R)
        with Locations((100, 98.8)):
            Circle(SKETCH67_R_2, mode=Mode.SUBTRACT)
    extrude(amount=-CUT_EXTRUDE36_DEPTH, mode=Mode.SUBTRACT)

    # Sketch69 → Cut-Extrude37 (cut, two sides: drawn at the far end of the back side and taken through both)
    with BuildSketch(Plane.XY.offset(-49).offset(-CUT_EXTRUDE37_DEPTH_BACK)):
        Polygon((170, 23.542190337), (-15.62420472, 23.542190337), (-15.62420472, 153.961909404), (170, 153.961909404), (170, 60), (192.608960178, 60), (192.608960178, 23.542190337), align=None)
    extrude(amount=CUT_EXTRUDE37_DEPTH + CUT_EXTRUDE37_DEPTH_BACK, mode=Mode.SUBTRACT)

    # Ø2.0mm Dowel Hole1
    with Locations(Plane(origin=(172, 60, -86.4), x_dir=(0, 0, -1), z_dir=(0, -1, 0))):
        with Locations((0, 0), (0, 6), (25, 0), (25, 6)):
            Hole(F_2_0MM_DOWEL_HOLE1_D / 2, depth=F_2_0MM_DOWEL_HOLE1_DEPTH)
            with Locations((0, 0, -(F_2_0MM_DOWEL_HOLE1_DEPTH + F_2_0MM_DOWEL_HOLE1_TIP / 2))):  # 118° drill point
                Cone(0, F_2_0MM_DOWEL_HOLE1_D / 2, F_2_0MM_DOWEL_HOLE1_TIP, mode=Mode.SUBTRACT)

    # Sketch74 → Cut-Extrude39 (cut)
    with BuildSketch(Plane.XZ.offset(-60).offset(CUT_EXTRUDE39_START)):
        with Locations((175, -111.59945001)):
            Rectangle(SKETCH74_W, SKETCH74_H)
        with Locations((175, -85.706083479)):
            Rectangle(SKETCH74_W, SKETCH74_H_2)
    extrude(amount=-CUT_EXTRUDE39_DEPTH, mode=Mode.SUBTRACT)

    # Sketch75 → Cut-Extrude40 (cut)
    with BuildSketch(Plane.ZY.offset(-170)):
        with Locations((-111.9, 64.5)):
            Rectangle(SKETCH75_W, SKETCH75_H)
        with Locations((-85.9, 64.5)):
            Rectangle(SKETCH75_W, SKETCH75_H)
    extrude(amount=-CUT_EXTRUDE40_DEPTH, mode=Mode.SUBTRACT)

    # Sketch76 → Cut-Extrude41 (cut)
    with BuildSketch(Plane.ZY.offset(-170)):
        Polygon((-103.65, 72.75), (-109.4, 62), (-109.4, 67), align=None)
        Polygon((-88.4, 62), (-94.15, 72.75), (-88.4, 67), align=None)
    extrude(amount=-CUT_EXTRUDE41_DEPTH, mode=Mode.SUBTRACT)


solid = cut_extrude25_piece_1_1.part
